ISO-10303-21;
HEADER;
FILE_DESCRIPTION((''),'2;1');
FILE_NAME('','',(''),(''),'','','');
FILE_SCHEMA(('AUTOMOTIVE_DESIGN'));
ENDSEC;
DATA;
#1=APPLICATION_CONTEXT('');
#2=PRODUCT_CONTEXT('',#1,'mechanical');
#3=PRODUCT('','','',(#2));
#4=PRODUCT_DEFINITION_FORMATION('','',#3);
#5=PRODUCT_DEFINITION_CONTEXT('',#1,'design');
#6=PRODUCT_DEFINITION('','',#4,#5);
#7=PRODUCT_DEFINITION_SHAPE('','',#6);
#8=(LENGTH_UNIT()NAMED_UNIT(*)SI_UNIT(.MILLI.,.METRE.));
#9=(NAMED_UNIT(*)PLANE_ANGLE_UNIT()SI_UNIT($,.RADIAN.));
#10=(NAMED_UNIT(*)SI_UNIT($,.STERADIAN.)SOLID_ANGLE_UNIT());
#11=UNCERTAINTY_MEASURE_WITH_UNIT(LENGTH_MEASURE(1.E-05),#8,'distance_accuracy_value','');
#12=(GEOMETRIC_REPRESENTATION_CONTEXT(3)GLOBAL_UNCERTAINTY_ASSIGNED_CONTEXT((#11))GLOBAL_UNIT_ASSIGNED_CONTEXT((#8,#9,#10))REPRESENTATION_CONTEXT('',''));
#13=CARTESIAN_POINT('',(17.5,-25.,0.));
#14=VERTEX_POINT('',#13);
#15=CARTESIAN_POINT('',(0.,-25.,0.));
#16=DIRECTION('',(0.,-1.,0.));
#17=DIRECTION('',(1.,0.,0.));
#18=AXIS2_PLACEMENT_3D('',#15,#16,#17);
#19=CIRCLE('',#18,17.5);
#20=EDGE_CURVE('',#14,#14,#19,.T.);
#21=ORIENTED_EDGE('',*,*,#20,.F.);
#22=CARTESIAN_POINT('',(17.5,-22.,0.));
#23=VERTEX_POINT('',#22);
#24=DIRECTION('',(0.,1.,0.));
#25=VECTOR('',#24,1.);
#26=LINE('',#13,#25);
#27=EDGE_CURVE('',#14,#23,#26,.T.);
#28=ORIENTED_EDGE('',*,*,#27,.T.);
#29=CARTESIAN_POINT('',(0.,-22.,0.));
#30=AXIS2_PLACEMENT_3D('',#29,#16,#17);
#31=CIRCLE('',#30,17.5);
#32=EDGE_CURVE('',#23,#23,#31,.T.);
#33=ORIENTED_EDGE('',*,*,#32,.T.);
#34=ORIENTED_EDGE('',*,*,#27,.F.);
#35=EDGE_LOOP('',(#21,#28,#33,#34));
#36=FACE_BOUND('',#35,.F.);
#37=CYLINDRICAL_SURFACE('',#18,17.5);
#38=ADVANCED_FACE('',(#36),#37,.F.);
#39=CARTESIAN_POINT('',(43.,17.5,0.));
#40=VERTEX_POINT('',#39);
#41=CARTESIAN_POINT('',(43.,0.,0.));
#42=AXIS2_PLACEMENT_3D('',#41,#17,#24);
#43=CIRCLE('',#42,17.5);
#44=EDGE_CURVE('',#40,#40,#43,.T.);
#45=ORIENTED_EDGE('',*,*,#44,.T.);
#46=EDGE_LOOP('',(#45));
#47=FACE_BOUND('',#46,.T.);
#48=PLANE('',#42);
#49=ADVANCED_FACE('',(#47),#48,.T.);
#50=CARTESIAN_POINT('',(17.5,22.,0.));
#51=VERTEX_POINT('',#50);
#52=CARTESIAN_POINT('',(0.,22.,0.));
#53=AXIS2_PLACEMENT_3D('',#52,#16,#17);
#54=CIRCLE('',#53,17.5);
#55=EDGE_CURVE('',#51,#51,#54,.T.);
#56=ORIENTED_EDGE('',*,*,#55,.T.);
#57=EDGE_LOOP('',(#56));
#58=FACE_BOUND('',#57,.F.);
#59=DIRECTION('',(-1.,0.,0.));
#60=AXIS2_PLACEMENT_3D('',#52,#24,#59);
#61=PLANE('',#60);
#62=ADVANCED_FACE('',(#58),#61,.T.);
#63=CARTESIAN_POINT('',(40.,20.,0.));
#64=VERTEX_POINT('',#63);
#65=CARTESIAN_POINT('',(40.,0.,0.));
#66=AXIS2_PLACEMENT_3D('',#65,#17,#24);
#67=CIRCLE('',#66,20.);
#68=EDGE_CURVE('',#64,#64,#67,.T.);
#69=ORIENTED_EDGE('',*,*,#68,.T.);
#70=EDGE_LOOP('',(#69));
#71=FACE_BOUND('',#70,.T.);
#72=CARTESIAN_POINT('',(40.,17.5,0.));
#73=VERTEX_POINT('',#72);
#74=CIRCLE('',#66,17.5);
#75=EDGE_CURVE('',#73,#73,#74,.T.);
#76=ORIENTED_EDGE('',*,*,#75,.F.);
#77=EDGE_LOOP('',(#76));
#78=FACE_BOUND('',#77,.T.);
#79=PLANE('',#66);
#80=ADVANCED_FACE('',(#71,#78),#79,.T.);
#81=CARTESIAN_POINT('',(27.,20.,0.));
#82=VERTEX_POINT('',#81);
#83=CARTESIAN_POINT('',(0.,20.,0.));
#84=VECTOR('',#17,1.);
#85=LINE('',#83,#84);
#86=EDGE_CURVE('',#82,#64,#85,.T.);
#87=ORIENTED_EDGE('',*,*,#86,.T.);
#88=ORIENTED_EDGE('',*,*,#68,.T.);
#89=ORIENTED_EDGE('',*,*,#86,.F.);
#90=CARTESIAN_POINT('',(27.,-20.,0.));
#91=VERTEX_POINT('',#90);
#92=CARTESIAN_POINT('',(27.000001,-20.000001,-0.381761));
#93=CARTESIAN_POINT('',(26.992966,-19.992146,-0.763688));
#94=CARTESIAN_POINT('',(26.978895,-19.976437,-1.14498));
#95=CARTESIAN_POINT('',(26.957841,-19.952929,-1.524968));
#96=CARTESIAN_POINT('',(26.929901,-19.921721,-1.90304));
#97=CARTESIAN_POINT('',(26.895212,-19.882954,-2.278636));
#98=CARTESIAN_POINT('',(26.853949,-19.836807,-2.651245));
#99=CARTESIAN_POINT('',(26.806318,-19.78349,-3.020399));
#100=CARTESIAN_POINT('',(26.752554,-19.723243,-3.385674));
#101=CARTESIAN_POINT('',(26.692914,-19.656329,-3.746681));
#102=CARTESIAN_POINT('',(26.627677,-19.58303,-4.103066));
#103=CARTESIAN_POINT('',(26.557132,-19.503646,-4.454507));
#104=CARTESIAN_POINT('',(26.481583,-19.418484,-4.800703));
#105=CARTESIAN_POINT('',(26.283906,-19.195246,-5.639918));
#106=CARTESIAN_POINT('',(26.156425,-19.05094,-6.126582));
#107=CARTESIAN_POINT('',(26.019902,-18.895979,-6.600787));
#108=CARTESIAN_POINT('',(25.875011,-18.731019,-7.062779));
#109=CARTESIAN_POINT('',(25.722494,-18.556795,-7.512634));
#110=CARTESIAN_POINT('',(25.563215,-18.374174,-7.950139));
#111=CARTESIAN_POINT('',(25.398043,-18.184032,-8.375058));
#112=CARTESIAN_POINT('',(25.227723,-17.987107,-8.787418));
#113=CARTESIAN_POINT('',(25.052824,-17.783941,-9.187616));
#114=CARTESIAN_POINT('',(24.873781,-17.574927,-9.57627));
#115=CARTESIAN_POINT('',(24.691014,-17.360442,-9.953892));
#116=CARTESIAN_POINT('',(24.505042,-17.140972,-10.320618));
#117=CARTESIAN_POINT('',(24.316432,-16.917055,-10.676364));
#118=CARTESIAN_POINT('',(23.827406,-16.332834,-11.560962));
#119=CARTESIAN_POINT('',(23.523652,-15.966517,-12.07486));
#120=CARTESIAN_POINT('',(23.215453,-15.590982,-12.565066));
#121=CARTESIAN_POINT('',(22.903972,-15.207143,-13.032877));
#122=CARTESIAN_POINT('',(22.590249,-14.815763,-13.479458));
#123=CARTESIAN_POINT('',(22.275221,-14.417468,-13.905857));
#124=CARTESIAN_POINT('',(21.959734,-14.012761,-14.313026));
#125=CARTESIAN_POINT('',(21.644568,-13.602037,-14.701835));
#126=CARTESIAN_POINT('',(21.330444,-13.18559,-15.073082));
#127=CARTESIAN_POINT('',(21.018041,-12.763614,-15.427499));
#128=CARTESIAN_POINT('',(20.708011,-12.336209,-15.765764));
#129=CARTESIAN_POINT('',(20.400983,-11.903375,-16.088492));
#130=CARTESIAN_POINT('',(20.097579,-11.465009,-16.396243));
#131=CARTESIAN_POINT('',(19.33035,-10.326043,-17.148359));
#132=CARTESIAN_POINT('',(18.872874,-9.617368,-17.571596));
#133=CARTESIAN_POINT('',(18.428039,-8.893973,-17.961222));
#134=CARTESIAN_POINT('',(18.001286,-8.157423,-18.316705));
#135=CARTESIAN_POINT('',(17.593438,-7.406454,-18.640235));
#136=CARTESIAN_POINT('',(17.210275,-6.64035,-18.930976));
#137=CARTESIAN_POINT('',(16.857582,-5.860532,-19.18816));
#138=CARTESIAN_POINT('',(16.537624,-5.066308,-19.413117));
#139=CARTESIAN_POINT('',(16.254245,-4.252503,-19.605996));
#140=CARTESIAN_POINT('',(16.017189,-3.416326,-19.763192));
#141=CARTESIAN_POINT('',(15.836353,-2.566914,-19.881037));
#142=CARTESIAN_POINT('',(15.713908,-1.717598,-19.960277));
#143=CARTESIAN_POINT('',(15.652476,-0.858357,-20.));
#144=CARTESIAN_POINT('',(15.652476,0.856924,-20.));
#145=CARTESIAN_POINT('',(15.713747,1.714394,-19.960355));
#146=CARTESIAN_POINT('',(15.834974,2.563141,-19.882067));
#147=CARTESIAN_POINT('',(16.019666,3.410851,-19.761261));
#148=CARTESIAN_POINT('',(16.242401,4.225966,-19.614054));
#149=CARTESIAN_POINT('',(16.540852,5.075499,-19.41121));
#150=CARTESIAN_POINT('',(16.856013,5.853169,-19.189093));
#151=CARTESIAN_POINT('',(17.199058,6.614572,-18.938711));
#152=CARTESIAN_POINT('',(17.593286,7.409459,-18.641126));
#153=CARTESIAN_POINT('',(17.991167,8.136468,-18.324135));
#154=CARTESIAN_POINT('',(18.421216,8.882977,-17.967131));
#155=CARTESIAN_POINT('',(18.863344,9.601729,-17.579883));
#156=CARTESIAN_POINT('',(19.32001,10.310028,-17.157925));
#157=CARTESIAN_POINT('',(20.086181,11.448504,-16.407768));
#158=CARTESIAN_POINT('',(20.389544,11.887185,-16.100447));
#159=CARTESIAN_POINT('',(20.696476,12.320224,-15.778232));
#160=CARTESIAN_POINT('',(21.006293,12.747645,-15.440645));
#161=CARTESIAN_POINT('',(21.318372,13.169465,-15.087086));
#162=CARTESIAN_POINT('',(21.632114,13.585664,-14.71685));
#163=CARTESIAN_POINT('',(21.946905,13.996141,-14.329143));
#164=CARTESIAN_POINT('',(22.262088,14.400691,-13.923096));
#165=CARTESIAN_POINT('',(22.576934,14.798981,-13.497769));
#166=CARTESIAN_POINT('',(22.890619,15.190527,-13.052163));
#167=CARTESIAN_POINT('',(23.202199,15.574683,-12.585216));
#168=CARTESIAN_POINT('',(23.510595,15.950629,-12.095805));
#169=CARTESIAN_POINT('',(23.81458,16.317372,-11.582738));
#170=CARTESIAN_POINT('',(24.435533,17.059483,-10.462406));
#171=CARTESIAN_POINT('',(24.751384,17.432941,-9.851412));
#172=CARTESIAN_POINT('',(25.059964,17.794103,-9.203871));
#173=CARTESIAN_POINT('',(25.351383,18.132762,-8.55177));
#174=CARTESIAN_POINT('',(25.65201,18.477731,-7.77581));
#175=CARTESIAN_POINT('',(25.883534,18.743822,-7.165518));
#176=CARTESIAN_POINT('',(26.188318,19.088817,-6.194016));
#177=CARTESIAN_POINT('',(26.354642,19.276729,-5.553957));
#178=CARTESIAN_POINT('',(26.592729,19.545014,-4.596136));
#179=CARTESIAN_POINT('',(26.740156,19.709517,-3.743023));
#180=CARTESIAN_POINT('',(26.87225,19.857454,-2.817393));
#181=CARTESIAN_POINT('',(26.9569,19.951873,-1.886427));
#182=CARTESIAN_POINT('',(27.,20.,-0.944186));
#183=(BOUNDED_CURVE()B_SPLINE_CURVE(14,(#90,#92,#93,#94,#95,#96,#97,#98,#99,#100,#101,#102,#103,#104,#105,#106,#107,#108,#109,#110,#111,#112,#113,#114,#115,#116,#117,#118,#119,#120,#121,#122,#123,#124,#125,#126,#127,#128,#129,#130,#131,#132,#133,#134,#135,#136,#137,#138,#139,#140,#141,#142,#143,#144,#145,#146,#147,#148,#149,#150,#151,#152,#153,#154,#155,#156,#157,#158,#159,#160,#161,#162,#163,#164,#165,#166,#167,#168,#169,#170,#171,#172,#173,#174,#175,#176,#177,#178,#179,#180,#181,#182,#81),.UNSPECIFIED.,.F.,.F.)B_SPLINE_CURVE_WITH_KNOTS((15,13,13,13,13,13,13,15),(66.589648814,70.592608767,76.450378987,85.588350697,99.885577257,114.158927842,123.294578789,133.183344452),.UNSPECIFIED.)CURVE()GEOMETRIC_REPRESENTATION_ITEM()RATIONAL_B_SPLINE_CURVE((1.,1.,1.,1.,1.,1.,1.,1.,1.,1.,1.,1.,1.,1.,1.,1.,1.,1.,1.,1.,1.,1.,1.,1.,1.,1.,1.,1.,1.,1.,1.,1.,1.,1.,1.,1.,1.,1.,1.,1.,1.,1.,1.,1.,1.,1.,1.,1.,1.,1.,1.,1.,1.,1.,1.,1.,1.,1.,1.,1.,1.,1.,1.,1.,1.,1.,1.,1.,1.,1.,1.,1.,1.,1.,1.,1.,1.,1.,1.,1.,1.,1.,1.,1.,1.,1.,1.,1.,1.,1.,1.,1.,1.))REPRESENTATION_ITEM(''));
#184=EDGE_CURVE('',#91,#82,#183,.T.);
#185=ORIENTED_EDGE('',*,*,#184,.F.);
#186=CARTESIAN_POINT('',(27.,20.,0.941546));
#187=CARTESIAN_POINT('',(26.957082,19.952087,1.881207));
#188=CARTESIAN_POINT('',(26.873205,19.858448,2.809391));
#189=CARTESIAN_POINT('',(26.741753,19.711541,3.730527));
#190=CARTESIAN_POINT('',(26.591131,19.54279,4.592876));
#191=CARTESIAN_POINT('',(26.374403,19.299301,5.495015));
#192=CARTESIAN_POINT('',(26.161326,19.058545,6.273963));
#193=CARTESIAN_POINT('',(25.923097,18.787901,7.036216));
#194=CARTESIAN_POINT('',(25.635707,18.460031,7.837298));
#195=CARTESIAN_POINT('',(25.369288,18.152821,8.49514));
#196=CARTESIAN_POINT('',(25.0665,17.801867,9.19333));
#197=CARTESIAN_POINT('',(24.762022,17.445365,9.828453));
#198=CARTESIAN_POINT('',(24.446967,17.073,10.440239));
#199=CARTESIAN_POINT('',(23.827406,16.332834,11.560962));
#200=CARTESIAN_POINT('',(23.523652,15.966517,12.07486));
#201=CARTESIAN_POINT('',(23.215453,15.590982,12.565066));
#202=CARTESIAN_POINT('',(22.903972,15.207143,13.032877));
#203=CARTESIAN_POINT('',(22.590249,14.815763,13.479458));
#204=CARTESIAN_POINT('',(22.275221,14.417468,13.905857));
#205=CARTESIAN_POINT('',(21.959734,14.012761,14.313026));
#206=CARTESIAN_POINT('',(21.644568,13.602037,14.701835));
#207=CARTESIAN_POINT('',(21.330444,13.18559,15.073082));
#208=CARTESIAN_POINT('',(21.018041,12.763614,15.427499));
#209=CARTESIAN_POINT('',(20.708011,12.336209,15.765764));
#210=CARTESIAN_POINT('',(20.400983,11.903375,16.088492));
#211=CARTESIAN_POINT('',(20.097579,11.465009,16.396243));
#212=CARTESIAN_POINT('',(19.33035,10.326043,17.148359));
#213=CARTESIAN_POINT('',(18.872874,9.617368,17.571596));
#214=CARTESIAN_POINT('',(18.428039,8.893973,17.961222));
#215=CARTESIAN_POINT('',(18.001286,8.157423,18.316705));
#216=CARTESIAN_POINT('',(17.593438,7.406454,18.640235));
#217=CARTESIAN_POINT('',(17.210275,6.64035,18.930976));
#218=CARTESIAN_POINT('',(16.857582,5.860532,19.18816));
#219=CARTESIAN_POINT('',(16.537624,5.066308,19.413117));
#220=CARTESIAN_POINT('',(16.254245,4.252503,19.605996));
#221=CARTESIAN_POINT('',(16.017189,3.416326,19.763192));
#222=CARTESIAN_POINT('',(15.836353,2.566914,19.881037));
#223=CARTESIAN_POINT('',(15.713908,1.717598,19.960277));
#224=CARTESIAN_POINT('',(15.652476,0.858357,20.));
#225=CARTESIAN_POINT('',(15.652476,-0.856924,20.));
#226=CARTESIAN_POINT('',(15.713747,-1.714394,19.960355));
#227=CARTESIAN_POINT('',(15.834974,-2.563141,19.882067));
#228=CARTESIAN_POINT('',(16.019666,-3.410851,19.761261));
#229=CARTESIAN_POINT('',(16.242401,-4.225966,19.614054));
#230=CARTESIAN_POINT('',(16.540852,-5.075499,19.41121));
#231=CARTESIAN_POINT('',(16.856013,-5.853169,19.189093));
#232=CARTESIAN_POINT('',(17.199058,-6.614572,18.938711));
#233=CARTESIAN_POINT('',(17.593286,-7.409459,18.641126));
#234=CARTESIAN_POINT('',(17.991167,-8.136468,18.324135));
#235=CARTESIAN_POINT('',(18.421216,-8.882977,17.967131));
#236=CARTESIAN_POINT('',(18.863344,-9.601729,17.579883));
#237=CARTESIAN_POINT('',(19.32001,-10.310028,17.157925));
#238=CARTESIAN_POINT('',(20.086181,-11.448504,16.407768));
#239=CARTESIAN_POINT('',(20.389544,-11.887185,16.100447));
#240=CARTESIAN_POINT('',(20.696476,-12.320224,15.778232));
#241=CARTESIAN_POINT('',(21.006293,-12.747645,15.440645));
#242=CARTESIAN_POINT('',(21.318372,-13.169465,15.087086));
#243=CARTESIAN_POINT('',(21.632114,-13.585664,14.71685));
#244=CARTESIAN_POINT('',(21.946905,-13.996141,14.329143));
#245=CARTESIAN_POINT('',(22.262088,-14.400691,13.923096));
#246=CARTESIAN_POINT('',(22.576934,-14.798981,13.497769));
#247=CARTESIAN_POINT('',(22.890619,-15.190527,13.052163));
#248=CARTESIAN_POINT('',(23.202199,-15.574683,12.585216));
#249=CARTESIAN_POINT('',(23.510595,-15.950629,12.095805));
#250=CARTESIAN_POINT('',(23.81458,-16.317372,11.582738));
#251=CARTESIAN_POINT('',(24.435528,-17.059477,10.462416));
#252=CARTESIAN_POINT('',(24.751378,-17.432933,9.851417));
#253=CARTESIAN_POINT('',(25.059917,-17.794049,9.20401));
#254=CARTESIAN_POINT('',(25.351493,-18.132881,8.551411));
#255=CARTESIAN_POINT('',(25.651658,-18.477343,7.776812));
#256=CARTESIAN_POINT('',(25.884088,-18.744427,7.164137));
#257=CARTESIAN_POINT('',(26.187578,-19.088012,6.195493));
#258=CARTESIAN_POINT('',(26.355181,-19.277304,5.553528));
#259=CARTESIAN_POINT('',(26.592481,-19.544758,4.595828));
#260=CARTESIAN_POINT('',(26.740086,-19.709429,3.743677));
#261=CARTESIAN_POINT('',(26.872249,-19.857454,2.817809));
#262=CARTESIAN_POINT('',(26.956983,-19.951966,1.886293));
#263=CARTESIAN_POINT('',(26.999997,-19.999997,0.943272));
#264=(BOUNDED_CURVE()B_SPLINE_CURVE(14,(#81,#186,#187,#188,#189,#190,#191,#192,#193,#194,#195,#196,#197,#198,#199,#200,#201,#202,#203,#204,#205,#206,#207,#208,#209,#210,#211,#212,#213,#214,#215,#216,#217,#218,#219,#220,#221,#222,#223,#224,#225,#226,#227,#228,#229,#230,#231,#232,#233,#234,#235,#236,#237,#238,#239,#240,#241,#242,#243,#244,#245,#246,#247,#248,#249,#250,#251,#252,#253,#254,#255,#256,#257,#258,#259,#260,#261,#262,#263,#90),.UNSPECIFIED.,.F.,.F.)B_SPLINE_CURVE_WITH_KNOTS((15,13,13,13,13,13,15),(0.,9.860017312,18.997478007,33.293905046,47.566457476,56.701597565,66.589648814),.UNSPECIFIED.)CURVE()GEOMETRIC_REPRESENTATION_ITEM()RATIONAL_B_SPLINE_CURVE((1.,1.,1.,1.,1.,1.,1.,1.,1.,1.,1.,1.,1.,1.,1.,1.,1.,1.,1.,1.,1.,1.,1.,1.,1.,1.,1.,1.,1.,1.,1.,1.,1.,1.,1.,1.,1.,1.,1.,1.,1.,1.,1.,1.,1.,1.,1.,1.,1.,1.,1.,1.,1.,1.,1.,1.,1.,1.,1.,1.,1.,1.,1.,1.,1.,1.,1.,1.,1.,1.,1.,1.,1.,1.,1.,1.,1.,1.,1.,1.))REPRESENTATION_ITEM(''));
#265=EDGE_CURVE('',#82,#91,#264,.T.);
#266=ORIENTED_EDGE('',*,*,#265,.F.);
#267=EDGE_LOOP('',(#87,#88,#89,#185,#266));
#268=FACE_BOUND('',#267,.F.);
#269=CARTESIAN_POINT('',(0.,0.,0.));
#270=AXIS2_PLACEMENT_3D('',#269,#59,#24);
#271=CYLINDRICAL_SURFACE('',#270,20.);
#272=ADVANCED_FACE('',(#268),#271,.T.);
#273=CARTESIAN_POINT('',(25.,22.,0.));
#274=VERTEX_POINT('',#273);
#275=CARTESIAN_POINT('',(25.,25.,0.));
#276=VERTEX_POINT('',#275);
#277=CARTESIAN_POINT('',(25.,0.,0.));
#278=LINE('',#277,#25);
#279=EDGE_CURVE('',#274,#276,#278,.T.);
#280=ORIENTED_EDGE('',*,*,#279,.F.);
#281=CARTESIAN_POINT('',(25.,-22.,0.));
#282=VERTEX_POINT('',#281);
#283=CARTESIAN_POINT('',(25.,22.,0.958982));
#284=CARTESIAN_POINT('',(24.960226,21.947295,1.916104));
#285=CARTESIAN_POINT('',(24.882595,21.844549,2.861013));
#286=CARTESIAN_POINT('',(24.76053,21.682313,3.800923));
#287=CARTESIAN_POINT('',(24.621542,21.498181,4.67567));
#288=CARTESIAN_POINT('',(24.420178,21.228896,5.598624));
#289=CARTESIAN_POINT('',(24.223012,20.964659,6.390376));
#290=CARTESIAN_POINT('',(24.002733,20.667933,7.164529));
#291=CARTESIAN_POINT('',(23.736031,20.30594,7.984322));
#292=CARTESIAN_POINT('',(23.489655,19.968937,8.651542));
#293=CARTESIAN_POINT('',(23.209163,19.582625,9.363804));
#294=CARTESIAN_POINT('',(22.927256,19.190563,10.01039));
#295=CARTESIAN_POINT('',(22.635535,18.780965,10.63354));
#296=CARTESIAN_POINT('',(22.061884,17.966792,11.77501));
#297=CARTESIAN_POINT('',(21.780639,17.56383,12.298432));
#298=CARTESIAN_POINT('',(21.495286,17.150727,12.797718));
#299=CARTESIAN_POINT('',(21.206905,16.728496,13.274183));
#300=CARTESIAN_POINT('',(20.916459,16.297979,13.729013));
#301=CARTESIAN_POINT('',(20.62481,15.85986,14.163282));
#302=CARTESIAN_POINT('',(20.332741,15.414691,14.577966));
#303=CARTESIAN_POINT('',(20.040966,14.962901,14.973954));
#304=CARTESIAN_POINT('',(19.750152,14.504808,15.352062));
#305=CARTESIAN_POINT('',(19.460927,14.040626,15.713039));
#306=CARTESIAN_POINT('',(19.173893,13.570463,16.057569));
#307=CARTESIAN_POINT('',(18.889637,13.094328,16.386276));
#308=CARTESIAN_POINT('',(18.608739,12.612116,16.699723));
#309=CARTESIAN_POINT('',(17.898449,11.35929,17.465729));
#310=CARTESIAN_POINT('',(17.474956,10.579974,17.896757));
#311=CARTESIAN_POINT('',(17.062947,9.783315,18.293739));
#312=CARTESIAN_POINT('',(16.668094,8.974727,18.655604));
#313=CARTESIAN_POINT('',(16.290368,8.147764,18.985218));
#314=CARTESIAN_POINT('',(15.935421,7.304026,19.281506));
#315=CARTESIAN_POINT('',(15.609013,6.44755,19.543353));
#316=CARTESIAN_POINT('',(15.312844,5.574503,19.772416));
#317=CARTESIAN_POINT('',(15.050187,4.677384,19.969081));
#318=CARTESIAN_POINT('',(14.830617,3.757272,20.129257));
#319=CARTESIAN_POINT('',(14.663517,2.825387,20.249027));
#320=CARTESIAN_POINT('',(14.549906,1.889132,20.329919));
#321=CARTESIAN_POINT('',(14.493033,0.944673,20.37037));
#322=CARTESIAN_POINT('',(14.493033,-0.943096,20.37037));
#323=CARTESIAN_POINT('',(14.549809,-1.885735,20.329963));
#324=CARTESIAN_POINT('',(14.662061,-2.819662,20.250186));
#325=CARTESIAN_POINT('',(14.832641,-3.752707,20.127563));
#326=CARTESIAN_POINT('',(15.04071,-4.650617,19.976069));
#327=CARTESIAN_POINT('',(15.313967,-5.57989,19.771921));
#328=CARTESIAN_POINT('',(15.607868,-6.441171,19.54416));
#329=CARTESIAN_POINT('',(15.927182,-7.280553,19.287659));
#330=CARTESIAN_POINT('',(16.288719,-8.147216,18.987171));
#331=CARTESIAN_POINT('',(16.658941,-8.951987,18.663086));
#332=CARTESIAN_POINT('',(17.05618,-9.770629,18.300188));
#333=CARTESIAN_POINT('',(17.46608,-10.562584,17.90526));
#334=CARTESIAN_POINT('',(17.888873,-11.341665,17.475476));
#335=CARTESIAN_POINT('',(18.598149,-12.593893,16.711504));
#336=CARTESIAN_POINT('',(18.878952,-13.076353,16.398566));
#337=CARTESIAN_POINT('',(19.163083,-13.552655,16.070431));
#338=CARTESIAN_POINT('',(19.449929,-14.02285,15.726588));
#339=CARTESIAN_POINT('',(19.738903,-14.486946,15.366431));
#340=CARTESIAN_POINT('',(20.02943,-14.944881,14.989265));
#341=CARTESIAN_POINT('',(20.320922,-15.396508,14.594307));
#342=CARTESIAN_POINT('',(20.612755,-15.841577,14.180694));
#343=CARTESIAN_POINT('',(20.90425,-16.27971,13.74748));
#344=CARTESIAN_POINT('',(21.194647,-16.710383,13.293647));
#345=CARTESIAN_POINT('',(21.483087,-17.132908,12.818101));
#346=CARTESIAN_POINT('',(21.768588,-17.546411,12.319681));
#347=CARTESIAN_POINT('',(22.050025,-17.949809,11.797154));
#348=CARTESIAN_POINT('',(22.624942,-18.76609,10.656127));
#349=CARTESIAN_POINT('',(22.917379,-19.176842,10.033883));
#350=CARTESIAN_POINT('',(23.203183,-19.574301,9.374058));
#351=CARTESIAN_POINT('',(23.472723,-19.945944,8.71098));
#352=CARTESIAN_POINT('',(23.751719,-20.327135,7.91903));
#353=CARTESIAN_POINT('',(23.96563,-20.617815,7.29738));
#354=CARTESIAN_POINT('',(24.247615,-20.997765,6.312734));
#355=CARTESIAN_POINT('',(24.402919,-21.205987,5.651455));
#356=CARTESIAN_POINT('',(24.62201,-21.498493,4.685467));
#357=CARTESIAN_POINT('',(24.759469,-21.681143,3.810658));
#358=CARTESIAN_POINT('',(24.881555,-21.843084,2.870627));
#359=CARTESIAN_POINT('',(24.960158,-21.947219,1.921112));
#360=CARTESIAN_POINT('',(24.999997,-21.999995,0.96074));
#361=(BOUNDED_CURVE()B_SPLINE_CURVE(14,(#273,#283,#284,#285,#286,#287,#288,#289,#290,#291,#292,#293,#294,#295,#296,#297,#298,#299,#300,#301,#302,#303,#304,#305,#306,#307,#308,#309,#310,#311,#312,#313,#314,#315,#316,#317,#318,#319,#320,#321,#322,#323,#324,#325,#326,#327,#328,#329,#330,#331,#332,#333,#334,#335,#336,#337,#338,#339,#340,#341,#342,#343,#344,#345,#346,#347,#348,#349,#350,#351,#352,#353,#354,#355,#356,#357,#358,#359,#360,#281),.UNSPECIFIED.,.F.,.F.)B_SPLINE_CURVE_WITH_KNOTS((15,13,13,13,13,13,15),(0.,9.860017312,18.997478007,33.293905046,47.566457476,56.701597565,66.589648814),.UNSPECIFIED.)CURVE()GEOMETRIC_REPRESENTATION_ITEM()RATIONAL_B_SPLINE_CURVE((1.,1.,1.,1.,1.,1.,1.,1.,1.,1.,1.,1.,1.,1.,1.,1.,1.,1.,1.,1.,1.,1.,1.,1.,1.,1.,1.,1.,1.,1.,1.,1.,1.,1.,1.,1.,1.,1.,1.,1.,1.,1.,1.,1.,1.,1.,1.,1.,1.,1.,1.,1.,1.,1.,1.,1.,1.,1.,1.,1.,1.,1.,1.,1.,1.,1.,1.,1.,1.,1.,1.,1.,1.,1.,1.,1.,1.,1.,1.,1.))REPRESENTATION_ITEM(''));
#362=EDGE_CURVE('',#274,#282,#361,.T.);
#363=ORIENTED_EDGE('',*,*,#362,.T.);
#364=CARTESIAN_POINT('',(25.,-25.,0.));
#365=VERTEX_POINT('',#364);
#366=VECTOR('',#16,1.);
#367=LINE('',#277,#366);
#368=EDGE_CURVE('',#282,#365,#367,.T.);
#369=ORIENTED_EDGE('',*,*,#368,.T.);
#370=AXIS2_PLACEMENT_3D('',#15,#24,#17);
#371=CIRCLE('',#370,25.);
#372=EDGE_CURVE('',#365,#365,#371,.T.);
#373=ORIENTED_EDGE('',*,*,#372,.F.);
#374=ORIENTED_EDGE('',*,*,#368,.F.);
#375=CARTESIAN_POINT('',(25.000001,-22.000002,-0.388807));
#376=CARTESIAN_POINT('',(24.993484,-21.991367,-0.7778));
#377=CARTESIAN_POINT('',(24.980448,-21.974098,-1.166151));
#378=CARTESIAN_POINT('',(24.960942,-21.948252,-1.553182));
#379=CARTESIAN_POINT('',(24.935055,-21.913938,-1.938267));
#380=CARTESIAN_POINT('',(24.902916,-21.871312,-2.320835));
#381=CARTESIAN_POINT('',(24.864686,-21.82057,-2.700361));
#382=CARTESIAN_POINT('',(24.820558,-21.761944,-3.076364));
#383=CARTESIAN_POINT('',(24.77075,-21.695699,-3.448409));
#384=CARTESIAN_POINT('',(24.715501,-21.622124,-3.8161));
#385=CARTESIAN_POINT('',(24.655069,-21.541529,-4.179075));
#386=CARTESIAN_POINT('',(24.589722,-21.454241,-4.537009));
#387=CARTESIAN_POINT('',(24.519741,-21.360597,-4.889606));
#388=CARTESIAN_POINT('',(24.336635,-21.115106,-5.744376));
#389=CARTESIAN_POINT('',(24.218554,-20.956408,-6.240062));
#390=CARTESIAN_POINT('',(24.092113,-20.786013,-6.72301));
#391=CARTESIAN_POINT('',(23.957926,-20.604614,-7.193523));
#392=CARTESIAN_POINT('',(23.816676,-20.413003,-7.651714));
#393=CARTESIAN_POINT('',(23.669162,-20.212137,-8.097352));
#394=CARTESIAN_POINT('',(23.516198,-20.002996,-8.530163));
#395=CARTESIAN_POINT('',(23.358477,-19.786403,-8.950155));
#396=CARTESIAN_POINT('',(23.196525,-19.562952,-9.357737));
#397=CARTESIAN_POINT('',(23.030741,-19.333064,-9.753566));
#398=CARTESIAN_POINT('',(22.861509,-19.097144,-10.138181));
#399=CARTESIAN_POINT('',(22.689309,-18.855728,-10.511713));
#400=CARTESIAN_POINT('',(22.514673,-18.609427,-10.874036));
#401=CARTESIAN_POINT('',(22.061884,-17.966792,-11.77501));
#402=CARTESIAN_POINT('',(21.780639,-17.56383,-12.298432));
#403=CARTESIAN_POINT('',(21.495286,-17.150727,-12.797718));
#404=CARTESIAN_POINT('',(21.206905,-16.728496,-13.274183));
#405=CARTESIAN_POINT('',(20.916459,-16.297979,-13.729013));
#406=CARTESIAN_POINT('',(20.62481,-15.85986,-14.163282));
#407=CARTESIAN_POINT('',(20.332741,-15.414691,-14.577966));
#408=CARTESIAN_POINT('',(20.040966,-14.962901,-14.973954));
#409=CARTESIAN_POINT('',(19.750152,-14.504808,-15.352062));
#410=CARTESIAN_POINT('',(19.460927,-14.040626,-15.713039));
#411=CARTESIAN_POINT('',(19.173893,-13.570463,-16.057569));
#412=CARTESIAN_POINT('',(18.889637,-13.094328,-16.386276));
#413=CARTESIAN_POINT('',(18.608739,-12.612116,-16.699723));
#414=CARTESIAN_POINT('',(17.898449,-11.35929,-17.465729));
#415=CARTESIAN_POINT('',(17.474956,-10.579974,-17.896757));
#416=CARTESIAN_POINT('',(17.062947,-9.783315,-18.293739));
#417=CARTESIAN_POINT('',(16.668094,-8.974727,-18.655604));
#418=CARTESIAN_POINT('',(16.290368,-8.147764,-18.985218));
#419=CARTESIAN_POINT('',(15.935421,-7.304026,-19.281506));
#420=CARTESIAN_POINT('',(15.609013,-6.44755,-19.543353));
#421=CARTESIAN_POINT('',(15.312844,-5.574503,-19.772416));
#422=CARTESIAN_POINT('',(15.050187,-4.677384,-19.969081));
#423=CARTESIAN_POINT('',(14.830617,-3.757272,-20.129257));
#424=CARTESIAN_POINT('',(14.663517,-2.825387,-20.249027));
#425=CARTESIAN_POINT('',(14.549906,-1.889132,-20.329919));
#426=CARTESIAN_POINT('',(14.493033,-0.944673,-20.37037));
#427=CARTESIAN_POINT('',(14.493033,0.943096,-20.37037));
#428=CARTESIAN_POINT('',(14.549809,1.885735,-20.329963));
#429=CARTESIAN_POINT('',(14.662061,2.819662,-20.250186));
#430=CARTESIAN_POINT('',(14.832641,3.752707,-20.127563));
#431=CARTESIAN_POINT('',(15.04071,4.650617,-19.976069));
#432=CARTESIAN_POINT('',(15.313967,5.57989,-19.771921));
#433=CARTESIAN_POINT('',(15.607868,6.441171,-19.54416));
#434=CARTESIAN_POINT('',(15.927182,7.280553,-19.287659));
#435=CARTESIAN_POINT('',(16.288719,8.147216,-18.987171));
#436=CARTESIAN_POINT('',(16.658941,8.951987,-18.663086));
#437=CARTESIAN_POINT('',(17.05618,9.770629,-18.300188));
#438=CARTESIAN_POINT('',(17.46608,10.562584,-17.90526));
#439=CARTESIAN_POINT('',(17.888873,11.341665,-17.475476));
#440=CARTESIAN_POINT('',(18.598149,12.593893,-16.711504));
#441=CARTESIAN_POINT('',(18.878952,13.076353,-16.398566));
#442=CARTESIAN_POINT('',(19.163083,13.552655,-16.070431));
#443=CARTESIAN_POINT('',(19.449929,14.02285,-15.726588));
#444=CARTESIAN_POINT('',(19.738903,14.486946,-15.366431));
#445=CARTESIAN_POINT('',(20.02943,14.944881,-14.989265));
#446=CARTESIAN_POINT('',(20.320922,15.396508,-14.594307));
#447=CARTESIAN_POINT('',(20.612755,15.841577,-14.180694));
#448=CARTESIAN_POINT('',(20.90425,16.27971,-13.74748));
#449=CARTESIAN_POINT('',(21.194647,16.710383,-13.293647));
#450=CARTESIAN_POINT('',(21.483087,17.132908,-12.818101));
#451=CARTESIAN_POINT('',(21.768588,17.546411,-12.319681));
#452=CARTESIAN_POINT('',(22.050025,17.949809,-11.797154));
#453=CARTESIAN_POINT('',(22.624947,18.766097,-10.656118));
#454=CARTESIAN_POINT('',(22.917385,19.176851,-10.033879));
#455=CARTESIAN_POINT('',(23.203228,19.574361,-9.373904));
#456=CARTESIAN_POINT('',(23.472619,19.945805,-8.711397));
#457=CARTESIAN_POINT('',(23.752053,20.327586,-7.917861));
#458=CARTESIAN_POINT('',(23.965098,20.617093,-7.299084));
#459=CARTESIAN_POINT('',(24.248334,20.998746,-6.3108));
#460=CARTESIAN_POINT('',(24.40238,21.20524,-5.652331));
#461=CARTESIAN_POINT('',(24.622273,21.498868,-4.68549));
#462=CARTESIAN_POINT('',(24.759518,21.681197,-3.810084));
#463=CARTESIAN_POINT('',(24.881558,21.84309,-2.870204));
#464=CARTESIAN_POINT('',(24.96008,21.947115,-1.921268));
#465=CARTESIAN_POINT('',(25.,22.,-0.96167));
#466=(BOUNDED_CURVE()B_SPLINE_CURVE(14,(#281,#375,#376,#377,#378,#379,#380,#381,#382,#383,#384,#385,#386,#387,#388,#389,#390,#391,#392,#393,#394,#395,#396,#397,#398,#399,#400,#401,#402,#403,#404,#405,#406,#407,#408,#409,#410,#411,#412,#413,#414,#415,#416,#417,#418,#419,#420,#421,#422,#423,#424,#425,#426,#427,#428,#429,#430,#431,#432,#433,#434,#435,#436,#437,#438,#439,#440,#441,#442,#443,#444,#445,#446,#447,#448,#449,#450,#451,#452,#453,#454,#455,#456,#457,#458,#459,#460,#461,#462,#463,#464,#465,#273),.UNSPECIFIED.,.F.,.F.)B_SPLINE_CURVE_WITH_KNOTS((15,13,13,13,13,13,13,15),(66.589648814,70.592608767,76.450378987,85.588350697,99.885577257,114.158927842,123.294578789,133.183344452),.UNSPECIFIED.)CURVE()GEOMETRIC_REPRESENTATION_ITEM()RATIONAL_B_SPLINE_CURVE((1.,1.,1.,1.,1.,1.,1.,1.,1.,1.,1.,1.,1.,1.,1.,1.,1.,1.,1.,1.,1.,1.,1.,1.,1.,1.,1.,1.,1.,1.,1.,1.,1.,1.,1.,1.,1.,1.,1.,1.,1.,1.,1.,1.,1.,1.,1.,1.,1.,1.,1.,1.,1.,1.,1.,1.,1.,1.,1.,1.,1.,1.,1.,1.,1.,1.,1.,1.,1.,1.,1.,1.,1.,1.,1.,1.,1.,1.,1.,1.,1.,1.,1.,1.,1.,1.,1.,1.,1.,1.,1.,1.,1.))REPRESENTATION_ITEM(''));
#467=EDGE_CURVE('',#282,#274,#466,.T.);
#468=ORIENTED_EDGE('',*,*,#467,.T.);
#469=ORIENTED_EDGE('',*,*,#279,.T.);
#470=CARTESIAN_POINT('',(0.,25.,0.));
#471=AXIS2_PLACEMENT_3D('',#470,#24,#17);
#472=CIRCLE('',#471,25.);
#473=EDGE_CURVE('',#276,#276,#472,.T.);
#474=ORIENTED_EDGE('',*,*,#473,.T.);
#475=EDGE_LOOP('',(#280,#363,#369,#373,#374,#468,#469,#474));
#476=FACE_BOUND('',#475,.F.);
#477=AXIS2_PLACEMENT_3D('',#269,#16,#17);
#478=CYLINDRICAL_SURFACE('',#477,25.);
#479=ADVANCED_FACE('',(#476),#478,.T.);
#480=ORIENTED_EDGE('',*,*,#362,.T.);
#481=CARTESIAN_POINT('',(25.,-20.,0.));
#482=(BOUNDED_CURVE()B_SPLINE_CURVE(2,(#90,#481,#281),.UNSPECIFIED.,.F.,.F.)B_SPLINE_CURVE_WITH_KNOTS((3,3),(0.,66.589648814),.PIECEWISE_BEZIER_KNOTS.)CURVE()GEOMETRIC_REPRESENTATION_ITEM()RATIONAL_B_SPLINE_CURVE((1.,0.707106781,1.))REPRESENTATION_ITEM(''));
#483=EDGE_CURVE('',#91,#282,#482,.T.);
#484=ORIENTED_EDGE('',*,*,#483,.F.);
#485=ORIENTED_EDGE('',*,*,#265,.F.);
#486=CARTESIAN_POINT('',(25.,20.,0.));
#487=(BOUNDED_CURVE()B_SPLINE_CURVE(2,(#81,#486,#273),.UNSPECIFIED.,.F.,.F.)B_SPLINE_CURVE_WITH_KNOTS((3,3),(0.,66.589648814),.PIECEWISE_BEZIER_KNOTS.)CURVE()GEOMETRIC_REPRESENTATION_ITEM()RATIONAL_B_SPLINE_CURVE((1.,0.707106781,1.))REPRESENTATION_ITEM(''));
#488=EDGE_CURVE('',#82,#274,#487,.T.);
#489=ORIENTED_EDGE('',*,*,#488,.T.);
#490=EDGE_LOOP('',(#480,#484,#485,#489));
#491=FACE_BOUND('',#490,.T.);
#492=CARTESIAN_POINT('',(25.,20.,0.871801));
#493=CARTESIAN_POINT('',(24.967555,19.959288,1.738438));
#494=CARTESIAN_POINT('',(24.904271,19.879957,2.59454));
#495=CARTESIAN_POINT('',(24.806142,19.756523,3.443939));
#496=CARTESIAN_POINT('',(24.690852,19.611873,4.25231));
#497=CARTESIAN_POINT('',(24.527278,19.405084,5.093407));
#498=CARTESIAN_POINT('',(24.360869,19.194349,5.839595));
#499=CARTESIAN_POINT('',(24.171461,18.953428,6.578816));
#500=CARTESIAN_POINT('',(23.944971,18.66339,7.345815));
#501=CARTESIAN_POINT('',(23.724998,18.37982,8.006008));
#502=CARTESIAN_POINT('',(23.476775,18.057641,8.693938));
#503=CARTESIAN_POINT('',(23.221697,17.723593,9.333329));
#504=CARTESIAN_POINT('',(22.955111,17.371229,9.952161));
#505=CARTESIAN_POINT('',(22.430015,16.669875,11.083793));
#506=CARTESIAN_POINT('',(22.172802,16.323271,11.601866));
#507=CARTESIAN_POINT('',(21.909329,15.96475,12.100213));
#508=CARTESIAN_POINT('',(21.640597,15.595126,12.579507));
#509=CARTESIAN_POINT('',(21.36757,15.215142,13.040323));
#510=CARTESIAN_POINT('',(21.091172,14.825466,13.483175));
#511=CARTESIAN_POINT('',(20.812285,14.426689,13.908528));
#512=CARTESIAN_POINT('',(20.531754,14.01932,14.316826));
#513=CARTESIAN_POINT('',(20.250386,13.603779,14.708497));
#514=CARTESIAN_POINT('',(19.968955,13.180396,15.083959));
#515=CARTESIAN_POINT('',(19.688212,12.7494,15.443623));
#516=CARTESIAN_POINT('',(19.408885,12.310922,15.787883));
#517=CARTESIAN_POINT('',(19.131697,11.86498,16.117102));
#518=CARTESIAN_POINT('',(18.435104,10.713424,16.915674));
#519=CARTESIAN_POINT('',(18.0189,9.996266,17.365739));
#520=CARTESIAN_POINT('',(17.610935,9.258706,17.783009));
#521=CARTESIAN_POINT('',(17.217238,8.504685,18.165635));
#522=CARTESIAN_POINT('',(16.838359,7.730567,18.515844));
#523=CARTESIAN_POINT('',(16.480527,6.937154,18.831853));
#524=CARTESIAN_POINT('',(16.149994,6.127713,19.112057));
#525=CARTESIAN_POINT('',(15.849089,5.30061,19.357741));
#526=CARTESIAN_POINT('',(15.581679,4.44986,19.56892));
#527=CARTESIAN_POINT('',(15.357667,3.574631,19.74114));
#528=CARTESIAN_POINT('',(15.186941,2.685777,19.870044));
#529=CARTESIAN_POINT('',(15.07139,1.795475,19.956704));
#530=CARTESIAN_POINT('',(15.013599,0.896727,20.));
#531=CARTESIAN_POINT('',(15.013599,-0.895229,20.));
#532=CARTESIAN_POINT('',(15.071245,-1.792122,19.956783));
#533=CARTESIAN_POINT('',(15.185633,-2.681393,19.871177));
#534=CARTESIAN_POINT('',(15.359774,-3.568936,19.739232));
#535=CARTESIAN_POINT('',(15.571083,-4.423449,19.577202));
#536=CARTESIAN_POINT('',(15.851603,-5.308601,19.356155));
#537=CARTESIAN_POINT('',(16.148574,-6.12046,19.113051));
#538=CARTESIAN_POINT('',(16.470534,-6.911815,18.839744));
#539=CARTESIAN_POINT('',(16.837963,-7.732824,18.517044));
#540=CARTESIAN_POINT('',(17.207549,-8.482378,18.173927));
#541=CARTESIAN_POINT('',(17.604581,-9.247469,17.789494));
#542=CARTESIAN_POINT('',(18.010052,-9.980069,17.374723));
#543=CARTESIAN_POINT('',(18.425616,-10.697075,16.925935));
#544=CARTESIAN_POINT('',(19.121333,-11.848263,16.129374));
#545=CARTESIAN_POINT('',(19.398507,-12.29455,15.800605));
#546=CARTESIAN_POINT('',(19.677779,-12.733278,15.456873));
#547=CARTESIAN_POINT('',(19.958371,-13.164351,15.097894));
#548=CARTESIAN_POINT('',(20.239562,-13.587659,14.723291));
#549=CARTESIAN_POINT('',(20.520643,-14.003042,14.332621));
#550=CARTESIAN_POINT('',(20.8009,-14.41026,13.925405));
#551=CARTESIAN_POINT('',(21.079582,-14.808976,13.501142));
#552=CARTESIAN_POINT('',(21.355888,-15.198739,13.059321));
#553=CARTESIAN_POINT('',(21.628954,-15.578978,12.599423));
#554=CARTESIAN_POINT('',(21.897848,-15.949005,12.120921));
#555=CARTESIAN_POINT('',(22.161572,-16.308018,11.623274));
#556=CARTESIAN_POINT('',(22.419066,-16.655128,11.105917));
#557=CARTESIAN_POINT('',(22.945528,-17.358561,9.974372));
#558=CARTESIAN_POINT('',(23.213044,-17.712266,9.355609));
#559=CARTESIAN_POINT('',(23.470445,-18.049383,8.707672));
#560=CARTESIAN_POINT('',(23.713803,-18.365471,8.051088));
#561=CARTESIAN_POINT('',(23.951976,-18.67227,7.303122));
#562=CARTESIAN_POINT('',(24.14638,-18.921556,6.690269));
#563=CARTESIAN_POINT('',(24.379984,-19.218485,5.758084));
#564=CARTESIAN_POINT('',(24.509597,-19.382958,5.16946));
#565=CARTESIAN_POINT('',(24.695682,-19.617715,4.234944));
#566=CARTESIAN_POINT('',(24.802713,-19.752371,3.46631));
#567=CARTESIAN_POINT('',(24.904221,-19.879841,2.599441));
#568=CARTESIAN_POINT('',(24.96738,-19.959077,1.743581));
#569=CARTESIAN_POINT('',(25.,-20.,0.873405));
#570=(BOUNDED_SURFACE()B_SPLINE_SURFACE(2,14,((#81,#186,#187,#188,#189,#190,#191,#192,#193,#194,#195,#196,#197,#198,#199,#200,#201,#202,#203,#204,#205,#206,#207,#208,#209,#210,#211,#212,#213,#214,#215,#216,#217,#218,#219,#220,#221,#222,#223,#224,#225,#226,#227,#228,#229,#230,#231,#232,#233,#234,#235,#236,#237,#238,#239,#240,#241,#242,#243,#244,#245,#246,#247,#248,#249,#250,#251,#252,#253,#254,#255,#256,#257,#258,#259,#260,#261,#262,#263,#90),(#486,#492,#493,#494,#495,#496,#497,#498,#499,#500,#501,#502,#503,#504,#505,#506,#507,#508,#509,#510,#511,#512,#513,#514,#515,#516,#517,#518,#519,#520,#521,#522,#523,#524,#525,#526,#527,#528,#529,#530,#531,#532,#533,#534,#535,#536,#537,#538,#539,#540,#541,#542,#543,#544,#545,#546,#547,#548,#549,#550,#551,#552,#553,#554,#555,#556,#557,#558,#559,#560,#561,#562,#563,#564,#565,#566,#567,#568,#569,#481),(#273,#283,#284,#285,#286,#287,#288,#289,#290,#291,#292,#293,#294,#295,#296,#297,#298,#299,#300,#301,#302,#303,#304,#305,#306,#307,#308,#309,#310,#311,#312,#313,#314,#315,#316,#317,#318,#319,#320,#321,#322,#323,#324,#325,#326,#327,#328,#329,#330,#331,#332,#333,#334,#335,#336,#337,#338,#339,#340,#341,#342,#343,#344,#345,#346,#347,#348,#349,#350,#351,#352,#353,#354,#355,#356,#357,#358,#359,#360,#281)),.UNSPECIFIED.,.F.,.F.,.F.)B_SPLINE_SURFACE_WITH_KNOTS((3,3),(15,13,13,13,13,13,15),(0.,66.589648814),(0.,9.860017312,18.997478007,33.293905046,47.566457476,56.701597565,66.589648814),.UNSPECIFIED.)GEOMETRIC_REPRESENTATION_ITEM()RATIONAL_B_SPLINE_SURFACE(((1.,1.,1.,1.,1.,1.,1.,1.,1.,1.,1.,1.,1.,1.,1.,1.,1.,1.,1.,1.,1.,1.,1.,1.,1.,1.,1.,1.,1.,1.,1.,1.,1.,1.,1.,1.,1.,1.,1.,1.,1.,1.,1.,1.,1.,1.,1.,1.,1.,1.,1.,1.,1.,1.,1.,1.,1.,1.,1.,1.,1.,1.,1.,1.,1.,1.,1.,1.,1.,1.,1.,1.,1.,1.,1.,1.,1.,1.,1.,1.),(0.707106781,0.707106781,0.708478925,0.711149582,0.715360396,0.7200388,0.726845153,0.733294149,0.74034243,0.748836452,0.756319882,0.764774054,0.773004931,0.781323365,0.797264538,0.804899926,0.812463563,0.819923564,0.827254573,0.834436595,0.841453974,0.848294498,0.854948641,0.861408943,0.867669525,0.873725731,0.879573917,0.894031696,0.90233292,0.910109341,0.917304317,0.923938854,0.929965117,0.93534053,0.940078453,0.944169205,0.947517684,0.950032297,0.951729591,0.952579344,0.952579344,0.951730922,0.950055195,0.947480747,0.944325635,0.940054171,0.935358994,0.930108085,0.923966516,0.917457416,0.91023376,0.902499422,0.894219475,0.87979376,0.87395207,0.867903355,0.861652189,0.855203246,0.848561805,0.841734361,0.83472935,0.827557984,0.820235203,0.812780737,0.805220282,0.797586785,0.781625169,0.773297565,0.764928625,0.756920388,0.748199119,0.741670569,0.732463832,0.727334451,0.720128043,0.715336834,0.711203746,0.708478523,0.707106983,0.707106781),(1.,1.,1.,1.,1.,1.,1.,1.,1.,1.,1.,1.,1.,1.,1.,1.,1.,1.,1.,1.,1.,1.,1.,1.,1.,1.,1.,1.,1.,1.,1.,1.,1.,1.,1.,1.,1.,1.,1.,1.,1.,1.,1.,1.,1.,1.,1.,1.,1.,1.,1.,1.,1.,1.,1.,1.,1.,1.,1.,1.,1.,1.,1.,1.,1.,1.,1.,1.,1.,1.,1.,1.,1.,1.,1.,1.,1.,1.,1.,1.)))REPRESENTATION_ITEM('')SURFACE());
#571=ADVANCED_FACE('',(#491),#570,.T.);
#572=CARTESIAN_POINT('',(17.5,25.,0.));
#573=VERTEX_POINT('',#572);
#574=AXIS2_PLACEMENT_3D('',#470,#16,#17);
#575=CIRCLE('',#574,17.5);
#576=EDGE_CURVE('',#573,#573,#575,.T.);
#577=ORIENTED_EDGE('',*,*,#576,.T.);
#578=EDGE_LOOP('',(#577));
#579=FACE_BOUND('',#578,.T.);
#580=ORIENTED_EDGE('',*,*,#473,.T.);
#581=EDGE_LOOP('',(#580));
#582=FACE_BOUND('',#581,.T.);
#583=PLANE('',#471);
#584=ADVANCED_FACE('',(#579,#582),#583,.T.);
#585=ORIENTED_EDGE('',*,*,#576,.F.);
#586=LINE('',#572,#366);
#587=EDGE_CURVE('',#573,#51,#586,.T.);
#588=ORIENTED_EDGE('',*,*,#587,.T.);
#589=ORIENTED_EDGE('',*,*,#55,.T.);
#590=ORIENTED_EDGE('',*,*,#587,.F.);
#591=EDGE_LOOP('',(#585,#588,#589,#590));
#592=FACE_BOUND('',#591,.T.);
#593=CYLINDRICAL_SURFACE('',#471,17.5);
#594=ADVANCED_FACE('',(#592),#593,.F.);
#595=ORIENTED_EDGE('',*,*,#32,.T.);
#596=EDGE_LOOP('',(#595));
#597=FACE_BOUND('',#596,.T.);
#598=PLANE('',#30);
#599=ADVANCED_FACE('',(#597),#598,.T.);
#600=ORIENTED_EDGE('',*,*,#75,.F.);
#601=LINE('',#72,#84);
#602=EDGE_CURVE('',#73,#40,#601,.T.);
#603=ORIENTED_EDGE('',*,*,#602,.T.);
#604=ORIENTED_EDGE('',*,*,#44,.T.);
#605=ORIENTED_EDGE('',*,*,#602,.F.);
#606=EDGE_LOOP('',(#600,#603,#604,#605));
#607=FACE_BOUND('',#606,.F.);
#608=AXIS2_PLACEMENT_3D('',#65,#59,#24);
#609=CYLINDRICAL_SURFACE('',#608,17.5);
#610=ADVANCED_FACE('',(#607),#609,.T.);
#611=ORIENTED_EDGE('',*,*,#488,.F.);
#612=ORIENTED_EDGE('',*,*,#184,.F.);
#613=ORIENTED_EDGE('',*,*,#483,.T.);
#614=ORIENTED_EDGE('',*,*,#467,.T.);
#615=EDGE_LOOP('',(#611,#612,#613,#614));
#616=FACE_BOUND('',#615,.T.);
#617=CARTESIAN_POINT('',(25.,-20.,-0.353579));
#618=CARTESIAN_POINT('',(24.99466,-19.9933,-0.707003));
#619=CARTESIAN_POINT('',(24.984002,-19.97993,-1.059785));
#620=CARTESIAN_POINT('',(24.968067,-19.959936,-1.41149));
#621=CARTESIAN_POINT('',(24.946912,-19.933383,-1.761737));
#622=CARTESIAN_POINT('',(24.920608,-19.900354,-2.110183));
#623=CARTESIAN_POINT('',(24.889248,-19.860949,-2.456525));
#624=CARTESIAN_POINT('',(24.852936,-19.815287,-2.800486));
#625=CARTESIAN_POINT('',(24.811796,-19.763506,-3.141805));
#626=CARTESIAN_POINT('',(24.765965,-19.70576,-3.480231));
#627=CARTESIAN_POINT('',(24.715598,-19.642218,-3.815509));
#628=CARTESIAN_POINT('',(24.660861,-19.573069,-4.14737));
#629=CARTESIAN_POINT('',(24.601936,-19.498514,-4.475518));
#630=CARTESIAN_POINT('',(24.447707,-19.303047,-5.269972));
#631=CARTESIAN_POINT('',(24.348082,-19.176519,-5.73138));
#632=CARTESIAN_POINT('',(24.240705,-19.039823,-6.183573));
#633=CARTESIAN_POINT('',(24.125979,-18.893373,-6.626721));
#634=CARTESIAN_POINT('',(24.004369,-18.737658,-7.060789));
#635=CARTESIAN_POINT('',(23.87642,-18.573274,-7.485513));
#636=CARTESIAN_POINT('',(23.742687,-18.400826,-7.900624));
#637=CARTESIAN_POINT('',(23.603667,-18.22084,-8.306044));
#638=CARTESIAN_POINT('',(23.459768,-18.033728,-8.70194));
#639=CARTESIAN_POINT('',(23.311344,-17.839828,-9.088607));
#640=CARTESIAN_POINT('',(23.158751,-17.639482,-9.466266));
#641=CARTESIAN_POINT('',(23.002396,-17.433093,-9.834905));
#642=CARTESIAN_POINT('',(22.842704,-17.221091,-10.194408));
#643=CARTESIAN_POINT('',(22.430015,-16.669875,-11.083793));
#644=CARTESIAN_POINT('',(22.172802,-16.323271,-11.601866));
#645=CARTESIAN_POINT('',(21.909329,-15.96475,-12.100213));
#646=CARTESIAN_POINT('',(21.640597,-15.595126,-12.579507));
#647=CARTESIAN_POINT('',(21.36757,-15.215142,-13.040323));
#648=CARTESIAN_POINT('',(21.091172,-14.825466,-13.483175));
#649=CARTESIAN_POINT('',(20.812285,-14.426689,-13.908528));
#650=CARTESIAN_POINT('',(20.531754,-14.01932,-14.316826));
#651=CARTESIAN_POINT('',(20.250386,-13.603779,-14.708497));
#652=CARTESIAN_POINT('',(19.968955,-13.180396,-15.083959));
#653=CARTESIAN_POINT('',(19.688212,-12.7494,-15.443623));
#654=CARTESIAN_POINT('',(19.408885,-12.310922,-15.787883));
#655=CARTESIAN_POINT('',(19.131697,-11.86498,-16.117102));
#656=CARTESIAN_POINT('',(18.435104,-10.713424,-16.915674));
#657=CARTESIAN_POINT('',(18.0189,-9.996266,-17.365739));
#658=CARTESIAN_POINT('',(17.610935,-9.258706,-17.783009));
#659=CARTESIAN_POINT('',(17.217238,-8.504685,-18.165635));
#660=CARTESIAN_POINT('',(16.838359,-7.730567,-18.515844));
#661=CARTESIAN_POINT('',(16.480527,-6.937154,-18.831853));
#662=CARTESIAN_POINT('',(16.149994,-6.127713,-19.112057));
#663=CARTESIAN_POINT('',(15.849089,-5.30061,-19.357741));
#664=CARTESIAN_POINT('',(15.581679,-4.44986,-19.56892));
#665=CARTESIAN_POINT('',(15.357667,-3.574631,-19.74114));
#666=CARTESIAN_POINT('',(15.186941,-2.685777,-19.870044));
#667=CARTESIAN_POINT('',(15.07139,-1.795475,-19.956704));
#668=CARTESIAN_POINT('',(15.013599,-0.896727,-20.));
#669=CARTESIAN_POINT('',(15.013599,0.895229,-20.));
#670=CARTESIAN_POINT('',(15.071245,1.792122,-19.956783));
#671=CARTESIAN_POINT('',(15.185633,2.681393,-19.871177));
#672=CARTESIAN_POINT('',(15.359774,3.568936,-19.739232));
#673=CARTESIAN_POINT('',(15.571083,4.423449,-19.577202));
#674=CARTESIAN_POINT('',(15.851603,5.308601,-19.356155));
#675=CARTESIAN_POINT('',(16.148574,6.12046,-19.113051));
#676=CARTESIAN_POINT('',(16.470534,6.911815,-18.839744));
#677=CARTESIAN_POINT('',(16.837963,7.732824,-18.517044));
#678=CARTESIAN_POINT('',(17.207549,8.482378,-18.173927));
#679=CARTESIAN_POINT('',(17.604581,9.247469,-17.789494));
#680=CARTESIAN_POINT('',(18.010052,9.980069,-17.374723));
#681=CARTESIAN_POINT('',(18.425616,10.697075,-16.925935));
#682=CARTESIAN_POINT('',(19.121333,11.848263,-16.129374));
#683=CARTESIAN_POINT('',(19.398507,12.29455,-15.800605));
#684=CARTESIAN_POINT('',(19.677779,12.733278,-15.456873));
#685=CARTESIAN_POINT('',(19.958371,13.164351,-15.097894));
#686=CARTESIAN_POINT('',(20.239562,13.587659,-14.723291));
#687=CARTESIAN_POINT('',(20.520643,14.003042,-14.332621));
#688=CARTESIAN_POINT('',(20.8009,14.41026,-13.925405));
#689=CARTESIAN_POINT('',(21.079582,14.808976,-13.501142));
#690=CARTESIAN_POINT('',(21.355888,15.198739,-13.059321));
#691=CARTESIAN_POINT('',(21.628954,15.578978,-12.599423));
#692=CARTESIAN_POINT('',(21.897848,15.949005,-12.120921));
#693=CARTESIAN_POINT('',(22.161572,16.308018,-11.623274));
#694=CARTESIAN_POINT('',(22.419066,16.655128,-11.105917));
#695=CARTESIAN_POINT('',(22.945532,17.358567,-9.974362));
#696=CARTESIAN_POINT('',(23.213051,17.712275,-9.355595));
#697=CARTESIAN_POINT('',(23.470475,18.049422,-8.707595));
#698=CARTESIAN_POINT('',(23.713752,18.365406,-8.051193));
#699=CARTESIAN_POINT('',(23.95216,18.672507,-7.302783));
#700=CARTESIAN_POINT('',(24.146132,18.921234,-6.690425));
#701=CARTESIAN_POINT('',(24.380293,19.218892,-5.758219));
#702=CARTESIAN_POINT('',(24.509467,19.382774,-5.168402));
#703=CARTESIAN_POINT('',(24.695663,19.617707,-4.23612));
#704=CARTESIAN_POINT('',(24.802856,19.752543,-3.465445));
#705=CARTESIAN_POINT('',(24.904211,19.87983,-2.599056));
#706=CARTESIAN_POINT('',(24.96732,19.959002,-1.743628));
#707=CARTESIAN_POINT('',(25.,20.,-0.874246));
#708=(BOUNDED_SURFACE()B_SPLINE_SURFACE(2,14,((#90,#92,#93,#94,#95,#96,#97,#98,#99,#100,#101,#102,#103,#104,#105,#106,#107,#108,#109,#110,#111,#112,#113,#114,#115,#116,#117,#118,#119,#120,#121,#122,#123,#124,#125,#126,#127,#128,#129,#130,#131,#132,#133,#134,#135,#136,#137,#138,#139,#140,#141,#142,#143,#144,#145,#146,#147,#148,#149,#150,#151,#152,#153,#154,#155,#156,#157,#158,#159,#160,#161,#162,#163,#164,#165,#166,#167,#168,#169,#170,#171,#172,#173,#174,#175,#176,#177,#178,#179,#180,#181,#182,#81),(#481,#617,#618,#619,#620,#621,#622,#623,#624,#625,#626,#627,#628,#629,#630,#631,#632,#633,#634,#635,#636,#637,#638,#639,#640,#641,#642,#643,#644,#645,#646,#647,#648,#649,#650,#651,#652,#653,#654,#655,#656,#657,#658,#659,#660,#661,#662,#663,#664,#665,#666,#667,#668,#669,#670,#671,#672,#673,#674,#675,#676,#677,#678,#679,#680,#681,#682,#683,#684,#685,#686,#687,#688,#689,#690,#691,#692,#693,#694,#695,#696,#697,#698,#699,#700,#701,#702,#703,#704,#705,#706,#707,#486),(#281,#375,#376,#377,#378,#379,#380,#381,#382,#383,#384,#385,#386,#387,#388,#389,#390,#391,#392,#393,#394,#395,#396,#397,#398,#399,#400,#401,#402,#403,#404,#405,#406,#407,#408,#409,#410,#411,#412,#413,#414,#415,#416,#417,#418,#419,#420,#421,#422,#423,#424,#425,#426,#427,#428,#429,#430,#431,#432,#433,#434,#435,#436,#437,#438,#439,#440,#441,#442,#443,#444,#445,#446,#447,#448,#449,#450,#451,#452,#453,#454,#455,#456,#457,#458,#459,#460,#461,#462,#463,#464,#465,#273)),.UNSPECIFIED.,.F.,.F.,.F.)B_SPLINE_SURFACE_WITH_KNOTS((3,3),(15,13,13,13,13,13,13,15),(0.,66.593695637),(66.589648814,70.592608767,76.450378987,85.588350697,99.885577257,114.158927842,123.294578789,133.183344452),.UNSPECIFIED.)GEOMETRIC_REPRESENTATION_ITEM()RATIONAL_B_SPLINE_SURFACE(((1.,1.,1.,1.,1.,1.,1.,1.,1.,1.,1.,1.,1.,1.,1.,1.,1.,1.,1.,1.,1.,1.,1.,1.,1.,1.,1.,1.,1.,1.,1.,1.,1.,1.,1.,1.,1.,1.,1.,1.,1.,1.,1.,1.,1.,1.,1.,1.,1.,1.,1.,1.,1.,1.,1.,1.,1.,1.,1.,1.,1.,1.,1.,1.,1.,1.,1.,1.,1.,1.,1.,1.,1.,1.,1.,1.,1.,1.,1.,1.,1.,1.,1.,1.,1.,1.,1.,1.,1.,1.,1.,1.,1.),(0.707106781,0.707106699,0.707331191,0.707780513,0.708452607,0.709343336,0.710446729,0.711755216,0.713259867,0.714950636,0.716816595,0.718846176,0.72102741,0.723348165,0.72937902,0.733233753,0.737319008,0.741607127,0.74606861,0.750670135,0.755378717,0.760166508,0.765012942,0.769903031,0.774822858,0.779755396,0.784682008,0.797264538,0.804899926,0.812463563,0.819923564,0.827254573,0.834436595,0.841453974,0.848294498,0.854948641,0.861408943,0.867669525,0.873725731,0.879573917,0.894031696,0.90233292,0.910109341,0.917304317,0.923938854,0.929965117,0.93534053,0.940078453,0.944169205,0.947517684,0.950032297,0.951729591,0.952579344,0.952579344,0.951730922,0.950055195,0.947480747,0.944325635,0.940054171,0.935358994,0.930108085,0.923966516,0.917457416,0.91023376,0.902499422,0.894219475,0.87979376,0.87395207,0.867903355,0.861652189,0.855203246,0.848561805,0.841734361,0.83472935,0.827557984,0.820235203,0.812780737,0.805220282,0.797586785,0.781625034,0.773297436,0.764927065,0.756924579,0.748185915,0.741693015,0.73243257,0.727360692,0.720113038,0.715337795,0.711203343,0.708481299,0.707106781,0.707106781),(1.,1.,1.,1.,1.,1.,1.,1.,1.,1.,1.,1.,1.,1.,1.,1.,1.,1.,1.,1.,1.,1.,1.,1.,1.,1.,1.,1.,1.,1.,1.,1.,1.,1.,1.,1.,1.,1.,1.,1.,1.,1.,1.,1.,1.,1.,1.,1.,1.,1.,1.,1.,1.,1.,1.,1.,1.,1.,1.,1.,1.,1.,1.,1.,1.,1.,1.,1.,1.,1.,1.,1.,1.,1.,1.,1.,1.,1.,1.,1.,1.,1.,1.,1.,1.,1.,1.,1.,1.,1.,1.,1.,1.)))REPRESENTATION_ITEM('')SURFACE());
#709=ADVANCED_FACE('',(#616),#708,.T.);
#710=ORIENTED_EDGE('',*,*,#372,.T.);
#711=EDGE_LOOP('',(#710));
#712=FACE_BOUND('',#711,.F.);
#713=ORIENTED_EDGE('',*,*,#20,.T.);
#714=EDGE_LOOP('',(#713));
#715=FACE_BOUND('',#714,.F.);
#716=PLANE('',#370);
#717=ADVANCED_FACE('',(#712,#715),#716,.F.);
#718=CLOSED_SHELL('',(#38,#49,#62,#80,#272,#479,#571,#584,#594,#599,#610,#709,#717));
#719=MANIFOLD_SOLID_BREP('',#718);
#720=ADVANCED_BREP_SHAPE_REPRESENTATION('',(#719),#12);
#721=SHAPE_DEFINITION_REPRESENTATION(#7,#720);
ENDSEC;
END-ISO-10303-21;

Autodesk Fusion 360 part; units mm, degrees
sketch "Sketch1" plane through (0, 0, 0) normal (0, 1, 0) x (1, 0, 0)
  circle A0 centre (0, 0) radius 25
  dimension "d1" = 50
extrude "Extrude2" add sketch "Sketch1" along normal mid plane 50
sketch "Sketch2" plane through (0, -25, 0) normal (0, -1, 0) x (1, 0, 0)
  circle A0 centre (0, 0) radius 25
  circle A1 centre (0, 0) radius 17.5
  dimension "d6" = 35
extrude "Extrude3" cut sketch "Sketch2" against normal blind 3 contours A1
mirror "Mirror1" about plane through (0, 0, 0) normal (0, 1, 0) of "Extrude3"
sketch "Sketch3" plane through (0, 0, 0) normal (1, 0, 0) x (0, 1, 0)
  circle A0 centre (0, 0) radius 20
  dimension "d11" = 40
extrude "Extrude4" add sketch "Sketch3" along normal blind 40
sketch "Sketch4" plane through (40, 0, 0) normal (1, 0, 0) x (0, 1, 0)
  circle A0 centre (0, 0) radius 20
  circle A1 centre (0, 0) radius 17.5
  dimension "d14" = 35
extrude "Extrude5" add sketch "Sketch4" along normal blind 3 contours A1
fillet "Fillet1" radius 2 1 edges at (15, 0, 20)
